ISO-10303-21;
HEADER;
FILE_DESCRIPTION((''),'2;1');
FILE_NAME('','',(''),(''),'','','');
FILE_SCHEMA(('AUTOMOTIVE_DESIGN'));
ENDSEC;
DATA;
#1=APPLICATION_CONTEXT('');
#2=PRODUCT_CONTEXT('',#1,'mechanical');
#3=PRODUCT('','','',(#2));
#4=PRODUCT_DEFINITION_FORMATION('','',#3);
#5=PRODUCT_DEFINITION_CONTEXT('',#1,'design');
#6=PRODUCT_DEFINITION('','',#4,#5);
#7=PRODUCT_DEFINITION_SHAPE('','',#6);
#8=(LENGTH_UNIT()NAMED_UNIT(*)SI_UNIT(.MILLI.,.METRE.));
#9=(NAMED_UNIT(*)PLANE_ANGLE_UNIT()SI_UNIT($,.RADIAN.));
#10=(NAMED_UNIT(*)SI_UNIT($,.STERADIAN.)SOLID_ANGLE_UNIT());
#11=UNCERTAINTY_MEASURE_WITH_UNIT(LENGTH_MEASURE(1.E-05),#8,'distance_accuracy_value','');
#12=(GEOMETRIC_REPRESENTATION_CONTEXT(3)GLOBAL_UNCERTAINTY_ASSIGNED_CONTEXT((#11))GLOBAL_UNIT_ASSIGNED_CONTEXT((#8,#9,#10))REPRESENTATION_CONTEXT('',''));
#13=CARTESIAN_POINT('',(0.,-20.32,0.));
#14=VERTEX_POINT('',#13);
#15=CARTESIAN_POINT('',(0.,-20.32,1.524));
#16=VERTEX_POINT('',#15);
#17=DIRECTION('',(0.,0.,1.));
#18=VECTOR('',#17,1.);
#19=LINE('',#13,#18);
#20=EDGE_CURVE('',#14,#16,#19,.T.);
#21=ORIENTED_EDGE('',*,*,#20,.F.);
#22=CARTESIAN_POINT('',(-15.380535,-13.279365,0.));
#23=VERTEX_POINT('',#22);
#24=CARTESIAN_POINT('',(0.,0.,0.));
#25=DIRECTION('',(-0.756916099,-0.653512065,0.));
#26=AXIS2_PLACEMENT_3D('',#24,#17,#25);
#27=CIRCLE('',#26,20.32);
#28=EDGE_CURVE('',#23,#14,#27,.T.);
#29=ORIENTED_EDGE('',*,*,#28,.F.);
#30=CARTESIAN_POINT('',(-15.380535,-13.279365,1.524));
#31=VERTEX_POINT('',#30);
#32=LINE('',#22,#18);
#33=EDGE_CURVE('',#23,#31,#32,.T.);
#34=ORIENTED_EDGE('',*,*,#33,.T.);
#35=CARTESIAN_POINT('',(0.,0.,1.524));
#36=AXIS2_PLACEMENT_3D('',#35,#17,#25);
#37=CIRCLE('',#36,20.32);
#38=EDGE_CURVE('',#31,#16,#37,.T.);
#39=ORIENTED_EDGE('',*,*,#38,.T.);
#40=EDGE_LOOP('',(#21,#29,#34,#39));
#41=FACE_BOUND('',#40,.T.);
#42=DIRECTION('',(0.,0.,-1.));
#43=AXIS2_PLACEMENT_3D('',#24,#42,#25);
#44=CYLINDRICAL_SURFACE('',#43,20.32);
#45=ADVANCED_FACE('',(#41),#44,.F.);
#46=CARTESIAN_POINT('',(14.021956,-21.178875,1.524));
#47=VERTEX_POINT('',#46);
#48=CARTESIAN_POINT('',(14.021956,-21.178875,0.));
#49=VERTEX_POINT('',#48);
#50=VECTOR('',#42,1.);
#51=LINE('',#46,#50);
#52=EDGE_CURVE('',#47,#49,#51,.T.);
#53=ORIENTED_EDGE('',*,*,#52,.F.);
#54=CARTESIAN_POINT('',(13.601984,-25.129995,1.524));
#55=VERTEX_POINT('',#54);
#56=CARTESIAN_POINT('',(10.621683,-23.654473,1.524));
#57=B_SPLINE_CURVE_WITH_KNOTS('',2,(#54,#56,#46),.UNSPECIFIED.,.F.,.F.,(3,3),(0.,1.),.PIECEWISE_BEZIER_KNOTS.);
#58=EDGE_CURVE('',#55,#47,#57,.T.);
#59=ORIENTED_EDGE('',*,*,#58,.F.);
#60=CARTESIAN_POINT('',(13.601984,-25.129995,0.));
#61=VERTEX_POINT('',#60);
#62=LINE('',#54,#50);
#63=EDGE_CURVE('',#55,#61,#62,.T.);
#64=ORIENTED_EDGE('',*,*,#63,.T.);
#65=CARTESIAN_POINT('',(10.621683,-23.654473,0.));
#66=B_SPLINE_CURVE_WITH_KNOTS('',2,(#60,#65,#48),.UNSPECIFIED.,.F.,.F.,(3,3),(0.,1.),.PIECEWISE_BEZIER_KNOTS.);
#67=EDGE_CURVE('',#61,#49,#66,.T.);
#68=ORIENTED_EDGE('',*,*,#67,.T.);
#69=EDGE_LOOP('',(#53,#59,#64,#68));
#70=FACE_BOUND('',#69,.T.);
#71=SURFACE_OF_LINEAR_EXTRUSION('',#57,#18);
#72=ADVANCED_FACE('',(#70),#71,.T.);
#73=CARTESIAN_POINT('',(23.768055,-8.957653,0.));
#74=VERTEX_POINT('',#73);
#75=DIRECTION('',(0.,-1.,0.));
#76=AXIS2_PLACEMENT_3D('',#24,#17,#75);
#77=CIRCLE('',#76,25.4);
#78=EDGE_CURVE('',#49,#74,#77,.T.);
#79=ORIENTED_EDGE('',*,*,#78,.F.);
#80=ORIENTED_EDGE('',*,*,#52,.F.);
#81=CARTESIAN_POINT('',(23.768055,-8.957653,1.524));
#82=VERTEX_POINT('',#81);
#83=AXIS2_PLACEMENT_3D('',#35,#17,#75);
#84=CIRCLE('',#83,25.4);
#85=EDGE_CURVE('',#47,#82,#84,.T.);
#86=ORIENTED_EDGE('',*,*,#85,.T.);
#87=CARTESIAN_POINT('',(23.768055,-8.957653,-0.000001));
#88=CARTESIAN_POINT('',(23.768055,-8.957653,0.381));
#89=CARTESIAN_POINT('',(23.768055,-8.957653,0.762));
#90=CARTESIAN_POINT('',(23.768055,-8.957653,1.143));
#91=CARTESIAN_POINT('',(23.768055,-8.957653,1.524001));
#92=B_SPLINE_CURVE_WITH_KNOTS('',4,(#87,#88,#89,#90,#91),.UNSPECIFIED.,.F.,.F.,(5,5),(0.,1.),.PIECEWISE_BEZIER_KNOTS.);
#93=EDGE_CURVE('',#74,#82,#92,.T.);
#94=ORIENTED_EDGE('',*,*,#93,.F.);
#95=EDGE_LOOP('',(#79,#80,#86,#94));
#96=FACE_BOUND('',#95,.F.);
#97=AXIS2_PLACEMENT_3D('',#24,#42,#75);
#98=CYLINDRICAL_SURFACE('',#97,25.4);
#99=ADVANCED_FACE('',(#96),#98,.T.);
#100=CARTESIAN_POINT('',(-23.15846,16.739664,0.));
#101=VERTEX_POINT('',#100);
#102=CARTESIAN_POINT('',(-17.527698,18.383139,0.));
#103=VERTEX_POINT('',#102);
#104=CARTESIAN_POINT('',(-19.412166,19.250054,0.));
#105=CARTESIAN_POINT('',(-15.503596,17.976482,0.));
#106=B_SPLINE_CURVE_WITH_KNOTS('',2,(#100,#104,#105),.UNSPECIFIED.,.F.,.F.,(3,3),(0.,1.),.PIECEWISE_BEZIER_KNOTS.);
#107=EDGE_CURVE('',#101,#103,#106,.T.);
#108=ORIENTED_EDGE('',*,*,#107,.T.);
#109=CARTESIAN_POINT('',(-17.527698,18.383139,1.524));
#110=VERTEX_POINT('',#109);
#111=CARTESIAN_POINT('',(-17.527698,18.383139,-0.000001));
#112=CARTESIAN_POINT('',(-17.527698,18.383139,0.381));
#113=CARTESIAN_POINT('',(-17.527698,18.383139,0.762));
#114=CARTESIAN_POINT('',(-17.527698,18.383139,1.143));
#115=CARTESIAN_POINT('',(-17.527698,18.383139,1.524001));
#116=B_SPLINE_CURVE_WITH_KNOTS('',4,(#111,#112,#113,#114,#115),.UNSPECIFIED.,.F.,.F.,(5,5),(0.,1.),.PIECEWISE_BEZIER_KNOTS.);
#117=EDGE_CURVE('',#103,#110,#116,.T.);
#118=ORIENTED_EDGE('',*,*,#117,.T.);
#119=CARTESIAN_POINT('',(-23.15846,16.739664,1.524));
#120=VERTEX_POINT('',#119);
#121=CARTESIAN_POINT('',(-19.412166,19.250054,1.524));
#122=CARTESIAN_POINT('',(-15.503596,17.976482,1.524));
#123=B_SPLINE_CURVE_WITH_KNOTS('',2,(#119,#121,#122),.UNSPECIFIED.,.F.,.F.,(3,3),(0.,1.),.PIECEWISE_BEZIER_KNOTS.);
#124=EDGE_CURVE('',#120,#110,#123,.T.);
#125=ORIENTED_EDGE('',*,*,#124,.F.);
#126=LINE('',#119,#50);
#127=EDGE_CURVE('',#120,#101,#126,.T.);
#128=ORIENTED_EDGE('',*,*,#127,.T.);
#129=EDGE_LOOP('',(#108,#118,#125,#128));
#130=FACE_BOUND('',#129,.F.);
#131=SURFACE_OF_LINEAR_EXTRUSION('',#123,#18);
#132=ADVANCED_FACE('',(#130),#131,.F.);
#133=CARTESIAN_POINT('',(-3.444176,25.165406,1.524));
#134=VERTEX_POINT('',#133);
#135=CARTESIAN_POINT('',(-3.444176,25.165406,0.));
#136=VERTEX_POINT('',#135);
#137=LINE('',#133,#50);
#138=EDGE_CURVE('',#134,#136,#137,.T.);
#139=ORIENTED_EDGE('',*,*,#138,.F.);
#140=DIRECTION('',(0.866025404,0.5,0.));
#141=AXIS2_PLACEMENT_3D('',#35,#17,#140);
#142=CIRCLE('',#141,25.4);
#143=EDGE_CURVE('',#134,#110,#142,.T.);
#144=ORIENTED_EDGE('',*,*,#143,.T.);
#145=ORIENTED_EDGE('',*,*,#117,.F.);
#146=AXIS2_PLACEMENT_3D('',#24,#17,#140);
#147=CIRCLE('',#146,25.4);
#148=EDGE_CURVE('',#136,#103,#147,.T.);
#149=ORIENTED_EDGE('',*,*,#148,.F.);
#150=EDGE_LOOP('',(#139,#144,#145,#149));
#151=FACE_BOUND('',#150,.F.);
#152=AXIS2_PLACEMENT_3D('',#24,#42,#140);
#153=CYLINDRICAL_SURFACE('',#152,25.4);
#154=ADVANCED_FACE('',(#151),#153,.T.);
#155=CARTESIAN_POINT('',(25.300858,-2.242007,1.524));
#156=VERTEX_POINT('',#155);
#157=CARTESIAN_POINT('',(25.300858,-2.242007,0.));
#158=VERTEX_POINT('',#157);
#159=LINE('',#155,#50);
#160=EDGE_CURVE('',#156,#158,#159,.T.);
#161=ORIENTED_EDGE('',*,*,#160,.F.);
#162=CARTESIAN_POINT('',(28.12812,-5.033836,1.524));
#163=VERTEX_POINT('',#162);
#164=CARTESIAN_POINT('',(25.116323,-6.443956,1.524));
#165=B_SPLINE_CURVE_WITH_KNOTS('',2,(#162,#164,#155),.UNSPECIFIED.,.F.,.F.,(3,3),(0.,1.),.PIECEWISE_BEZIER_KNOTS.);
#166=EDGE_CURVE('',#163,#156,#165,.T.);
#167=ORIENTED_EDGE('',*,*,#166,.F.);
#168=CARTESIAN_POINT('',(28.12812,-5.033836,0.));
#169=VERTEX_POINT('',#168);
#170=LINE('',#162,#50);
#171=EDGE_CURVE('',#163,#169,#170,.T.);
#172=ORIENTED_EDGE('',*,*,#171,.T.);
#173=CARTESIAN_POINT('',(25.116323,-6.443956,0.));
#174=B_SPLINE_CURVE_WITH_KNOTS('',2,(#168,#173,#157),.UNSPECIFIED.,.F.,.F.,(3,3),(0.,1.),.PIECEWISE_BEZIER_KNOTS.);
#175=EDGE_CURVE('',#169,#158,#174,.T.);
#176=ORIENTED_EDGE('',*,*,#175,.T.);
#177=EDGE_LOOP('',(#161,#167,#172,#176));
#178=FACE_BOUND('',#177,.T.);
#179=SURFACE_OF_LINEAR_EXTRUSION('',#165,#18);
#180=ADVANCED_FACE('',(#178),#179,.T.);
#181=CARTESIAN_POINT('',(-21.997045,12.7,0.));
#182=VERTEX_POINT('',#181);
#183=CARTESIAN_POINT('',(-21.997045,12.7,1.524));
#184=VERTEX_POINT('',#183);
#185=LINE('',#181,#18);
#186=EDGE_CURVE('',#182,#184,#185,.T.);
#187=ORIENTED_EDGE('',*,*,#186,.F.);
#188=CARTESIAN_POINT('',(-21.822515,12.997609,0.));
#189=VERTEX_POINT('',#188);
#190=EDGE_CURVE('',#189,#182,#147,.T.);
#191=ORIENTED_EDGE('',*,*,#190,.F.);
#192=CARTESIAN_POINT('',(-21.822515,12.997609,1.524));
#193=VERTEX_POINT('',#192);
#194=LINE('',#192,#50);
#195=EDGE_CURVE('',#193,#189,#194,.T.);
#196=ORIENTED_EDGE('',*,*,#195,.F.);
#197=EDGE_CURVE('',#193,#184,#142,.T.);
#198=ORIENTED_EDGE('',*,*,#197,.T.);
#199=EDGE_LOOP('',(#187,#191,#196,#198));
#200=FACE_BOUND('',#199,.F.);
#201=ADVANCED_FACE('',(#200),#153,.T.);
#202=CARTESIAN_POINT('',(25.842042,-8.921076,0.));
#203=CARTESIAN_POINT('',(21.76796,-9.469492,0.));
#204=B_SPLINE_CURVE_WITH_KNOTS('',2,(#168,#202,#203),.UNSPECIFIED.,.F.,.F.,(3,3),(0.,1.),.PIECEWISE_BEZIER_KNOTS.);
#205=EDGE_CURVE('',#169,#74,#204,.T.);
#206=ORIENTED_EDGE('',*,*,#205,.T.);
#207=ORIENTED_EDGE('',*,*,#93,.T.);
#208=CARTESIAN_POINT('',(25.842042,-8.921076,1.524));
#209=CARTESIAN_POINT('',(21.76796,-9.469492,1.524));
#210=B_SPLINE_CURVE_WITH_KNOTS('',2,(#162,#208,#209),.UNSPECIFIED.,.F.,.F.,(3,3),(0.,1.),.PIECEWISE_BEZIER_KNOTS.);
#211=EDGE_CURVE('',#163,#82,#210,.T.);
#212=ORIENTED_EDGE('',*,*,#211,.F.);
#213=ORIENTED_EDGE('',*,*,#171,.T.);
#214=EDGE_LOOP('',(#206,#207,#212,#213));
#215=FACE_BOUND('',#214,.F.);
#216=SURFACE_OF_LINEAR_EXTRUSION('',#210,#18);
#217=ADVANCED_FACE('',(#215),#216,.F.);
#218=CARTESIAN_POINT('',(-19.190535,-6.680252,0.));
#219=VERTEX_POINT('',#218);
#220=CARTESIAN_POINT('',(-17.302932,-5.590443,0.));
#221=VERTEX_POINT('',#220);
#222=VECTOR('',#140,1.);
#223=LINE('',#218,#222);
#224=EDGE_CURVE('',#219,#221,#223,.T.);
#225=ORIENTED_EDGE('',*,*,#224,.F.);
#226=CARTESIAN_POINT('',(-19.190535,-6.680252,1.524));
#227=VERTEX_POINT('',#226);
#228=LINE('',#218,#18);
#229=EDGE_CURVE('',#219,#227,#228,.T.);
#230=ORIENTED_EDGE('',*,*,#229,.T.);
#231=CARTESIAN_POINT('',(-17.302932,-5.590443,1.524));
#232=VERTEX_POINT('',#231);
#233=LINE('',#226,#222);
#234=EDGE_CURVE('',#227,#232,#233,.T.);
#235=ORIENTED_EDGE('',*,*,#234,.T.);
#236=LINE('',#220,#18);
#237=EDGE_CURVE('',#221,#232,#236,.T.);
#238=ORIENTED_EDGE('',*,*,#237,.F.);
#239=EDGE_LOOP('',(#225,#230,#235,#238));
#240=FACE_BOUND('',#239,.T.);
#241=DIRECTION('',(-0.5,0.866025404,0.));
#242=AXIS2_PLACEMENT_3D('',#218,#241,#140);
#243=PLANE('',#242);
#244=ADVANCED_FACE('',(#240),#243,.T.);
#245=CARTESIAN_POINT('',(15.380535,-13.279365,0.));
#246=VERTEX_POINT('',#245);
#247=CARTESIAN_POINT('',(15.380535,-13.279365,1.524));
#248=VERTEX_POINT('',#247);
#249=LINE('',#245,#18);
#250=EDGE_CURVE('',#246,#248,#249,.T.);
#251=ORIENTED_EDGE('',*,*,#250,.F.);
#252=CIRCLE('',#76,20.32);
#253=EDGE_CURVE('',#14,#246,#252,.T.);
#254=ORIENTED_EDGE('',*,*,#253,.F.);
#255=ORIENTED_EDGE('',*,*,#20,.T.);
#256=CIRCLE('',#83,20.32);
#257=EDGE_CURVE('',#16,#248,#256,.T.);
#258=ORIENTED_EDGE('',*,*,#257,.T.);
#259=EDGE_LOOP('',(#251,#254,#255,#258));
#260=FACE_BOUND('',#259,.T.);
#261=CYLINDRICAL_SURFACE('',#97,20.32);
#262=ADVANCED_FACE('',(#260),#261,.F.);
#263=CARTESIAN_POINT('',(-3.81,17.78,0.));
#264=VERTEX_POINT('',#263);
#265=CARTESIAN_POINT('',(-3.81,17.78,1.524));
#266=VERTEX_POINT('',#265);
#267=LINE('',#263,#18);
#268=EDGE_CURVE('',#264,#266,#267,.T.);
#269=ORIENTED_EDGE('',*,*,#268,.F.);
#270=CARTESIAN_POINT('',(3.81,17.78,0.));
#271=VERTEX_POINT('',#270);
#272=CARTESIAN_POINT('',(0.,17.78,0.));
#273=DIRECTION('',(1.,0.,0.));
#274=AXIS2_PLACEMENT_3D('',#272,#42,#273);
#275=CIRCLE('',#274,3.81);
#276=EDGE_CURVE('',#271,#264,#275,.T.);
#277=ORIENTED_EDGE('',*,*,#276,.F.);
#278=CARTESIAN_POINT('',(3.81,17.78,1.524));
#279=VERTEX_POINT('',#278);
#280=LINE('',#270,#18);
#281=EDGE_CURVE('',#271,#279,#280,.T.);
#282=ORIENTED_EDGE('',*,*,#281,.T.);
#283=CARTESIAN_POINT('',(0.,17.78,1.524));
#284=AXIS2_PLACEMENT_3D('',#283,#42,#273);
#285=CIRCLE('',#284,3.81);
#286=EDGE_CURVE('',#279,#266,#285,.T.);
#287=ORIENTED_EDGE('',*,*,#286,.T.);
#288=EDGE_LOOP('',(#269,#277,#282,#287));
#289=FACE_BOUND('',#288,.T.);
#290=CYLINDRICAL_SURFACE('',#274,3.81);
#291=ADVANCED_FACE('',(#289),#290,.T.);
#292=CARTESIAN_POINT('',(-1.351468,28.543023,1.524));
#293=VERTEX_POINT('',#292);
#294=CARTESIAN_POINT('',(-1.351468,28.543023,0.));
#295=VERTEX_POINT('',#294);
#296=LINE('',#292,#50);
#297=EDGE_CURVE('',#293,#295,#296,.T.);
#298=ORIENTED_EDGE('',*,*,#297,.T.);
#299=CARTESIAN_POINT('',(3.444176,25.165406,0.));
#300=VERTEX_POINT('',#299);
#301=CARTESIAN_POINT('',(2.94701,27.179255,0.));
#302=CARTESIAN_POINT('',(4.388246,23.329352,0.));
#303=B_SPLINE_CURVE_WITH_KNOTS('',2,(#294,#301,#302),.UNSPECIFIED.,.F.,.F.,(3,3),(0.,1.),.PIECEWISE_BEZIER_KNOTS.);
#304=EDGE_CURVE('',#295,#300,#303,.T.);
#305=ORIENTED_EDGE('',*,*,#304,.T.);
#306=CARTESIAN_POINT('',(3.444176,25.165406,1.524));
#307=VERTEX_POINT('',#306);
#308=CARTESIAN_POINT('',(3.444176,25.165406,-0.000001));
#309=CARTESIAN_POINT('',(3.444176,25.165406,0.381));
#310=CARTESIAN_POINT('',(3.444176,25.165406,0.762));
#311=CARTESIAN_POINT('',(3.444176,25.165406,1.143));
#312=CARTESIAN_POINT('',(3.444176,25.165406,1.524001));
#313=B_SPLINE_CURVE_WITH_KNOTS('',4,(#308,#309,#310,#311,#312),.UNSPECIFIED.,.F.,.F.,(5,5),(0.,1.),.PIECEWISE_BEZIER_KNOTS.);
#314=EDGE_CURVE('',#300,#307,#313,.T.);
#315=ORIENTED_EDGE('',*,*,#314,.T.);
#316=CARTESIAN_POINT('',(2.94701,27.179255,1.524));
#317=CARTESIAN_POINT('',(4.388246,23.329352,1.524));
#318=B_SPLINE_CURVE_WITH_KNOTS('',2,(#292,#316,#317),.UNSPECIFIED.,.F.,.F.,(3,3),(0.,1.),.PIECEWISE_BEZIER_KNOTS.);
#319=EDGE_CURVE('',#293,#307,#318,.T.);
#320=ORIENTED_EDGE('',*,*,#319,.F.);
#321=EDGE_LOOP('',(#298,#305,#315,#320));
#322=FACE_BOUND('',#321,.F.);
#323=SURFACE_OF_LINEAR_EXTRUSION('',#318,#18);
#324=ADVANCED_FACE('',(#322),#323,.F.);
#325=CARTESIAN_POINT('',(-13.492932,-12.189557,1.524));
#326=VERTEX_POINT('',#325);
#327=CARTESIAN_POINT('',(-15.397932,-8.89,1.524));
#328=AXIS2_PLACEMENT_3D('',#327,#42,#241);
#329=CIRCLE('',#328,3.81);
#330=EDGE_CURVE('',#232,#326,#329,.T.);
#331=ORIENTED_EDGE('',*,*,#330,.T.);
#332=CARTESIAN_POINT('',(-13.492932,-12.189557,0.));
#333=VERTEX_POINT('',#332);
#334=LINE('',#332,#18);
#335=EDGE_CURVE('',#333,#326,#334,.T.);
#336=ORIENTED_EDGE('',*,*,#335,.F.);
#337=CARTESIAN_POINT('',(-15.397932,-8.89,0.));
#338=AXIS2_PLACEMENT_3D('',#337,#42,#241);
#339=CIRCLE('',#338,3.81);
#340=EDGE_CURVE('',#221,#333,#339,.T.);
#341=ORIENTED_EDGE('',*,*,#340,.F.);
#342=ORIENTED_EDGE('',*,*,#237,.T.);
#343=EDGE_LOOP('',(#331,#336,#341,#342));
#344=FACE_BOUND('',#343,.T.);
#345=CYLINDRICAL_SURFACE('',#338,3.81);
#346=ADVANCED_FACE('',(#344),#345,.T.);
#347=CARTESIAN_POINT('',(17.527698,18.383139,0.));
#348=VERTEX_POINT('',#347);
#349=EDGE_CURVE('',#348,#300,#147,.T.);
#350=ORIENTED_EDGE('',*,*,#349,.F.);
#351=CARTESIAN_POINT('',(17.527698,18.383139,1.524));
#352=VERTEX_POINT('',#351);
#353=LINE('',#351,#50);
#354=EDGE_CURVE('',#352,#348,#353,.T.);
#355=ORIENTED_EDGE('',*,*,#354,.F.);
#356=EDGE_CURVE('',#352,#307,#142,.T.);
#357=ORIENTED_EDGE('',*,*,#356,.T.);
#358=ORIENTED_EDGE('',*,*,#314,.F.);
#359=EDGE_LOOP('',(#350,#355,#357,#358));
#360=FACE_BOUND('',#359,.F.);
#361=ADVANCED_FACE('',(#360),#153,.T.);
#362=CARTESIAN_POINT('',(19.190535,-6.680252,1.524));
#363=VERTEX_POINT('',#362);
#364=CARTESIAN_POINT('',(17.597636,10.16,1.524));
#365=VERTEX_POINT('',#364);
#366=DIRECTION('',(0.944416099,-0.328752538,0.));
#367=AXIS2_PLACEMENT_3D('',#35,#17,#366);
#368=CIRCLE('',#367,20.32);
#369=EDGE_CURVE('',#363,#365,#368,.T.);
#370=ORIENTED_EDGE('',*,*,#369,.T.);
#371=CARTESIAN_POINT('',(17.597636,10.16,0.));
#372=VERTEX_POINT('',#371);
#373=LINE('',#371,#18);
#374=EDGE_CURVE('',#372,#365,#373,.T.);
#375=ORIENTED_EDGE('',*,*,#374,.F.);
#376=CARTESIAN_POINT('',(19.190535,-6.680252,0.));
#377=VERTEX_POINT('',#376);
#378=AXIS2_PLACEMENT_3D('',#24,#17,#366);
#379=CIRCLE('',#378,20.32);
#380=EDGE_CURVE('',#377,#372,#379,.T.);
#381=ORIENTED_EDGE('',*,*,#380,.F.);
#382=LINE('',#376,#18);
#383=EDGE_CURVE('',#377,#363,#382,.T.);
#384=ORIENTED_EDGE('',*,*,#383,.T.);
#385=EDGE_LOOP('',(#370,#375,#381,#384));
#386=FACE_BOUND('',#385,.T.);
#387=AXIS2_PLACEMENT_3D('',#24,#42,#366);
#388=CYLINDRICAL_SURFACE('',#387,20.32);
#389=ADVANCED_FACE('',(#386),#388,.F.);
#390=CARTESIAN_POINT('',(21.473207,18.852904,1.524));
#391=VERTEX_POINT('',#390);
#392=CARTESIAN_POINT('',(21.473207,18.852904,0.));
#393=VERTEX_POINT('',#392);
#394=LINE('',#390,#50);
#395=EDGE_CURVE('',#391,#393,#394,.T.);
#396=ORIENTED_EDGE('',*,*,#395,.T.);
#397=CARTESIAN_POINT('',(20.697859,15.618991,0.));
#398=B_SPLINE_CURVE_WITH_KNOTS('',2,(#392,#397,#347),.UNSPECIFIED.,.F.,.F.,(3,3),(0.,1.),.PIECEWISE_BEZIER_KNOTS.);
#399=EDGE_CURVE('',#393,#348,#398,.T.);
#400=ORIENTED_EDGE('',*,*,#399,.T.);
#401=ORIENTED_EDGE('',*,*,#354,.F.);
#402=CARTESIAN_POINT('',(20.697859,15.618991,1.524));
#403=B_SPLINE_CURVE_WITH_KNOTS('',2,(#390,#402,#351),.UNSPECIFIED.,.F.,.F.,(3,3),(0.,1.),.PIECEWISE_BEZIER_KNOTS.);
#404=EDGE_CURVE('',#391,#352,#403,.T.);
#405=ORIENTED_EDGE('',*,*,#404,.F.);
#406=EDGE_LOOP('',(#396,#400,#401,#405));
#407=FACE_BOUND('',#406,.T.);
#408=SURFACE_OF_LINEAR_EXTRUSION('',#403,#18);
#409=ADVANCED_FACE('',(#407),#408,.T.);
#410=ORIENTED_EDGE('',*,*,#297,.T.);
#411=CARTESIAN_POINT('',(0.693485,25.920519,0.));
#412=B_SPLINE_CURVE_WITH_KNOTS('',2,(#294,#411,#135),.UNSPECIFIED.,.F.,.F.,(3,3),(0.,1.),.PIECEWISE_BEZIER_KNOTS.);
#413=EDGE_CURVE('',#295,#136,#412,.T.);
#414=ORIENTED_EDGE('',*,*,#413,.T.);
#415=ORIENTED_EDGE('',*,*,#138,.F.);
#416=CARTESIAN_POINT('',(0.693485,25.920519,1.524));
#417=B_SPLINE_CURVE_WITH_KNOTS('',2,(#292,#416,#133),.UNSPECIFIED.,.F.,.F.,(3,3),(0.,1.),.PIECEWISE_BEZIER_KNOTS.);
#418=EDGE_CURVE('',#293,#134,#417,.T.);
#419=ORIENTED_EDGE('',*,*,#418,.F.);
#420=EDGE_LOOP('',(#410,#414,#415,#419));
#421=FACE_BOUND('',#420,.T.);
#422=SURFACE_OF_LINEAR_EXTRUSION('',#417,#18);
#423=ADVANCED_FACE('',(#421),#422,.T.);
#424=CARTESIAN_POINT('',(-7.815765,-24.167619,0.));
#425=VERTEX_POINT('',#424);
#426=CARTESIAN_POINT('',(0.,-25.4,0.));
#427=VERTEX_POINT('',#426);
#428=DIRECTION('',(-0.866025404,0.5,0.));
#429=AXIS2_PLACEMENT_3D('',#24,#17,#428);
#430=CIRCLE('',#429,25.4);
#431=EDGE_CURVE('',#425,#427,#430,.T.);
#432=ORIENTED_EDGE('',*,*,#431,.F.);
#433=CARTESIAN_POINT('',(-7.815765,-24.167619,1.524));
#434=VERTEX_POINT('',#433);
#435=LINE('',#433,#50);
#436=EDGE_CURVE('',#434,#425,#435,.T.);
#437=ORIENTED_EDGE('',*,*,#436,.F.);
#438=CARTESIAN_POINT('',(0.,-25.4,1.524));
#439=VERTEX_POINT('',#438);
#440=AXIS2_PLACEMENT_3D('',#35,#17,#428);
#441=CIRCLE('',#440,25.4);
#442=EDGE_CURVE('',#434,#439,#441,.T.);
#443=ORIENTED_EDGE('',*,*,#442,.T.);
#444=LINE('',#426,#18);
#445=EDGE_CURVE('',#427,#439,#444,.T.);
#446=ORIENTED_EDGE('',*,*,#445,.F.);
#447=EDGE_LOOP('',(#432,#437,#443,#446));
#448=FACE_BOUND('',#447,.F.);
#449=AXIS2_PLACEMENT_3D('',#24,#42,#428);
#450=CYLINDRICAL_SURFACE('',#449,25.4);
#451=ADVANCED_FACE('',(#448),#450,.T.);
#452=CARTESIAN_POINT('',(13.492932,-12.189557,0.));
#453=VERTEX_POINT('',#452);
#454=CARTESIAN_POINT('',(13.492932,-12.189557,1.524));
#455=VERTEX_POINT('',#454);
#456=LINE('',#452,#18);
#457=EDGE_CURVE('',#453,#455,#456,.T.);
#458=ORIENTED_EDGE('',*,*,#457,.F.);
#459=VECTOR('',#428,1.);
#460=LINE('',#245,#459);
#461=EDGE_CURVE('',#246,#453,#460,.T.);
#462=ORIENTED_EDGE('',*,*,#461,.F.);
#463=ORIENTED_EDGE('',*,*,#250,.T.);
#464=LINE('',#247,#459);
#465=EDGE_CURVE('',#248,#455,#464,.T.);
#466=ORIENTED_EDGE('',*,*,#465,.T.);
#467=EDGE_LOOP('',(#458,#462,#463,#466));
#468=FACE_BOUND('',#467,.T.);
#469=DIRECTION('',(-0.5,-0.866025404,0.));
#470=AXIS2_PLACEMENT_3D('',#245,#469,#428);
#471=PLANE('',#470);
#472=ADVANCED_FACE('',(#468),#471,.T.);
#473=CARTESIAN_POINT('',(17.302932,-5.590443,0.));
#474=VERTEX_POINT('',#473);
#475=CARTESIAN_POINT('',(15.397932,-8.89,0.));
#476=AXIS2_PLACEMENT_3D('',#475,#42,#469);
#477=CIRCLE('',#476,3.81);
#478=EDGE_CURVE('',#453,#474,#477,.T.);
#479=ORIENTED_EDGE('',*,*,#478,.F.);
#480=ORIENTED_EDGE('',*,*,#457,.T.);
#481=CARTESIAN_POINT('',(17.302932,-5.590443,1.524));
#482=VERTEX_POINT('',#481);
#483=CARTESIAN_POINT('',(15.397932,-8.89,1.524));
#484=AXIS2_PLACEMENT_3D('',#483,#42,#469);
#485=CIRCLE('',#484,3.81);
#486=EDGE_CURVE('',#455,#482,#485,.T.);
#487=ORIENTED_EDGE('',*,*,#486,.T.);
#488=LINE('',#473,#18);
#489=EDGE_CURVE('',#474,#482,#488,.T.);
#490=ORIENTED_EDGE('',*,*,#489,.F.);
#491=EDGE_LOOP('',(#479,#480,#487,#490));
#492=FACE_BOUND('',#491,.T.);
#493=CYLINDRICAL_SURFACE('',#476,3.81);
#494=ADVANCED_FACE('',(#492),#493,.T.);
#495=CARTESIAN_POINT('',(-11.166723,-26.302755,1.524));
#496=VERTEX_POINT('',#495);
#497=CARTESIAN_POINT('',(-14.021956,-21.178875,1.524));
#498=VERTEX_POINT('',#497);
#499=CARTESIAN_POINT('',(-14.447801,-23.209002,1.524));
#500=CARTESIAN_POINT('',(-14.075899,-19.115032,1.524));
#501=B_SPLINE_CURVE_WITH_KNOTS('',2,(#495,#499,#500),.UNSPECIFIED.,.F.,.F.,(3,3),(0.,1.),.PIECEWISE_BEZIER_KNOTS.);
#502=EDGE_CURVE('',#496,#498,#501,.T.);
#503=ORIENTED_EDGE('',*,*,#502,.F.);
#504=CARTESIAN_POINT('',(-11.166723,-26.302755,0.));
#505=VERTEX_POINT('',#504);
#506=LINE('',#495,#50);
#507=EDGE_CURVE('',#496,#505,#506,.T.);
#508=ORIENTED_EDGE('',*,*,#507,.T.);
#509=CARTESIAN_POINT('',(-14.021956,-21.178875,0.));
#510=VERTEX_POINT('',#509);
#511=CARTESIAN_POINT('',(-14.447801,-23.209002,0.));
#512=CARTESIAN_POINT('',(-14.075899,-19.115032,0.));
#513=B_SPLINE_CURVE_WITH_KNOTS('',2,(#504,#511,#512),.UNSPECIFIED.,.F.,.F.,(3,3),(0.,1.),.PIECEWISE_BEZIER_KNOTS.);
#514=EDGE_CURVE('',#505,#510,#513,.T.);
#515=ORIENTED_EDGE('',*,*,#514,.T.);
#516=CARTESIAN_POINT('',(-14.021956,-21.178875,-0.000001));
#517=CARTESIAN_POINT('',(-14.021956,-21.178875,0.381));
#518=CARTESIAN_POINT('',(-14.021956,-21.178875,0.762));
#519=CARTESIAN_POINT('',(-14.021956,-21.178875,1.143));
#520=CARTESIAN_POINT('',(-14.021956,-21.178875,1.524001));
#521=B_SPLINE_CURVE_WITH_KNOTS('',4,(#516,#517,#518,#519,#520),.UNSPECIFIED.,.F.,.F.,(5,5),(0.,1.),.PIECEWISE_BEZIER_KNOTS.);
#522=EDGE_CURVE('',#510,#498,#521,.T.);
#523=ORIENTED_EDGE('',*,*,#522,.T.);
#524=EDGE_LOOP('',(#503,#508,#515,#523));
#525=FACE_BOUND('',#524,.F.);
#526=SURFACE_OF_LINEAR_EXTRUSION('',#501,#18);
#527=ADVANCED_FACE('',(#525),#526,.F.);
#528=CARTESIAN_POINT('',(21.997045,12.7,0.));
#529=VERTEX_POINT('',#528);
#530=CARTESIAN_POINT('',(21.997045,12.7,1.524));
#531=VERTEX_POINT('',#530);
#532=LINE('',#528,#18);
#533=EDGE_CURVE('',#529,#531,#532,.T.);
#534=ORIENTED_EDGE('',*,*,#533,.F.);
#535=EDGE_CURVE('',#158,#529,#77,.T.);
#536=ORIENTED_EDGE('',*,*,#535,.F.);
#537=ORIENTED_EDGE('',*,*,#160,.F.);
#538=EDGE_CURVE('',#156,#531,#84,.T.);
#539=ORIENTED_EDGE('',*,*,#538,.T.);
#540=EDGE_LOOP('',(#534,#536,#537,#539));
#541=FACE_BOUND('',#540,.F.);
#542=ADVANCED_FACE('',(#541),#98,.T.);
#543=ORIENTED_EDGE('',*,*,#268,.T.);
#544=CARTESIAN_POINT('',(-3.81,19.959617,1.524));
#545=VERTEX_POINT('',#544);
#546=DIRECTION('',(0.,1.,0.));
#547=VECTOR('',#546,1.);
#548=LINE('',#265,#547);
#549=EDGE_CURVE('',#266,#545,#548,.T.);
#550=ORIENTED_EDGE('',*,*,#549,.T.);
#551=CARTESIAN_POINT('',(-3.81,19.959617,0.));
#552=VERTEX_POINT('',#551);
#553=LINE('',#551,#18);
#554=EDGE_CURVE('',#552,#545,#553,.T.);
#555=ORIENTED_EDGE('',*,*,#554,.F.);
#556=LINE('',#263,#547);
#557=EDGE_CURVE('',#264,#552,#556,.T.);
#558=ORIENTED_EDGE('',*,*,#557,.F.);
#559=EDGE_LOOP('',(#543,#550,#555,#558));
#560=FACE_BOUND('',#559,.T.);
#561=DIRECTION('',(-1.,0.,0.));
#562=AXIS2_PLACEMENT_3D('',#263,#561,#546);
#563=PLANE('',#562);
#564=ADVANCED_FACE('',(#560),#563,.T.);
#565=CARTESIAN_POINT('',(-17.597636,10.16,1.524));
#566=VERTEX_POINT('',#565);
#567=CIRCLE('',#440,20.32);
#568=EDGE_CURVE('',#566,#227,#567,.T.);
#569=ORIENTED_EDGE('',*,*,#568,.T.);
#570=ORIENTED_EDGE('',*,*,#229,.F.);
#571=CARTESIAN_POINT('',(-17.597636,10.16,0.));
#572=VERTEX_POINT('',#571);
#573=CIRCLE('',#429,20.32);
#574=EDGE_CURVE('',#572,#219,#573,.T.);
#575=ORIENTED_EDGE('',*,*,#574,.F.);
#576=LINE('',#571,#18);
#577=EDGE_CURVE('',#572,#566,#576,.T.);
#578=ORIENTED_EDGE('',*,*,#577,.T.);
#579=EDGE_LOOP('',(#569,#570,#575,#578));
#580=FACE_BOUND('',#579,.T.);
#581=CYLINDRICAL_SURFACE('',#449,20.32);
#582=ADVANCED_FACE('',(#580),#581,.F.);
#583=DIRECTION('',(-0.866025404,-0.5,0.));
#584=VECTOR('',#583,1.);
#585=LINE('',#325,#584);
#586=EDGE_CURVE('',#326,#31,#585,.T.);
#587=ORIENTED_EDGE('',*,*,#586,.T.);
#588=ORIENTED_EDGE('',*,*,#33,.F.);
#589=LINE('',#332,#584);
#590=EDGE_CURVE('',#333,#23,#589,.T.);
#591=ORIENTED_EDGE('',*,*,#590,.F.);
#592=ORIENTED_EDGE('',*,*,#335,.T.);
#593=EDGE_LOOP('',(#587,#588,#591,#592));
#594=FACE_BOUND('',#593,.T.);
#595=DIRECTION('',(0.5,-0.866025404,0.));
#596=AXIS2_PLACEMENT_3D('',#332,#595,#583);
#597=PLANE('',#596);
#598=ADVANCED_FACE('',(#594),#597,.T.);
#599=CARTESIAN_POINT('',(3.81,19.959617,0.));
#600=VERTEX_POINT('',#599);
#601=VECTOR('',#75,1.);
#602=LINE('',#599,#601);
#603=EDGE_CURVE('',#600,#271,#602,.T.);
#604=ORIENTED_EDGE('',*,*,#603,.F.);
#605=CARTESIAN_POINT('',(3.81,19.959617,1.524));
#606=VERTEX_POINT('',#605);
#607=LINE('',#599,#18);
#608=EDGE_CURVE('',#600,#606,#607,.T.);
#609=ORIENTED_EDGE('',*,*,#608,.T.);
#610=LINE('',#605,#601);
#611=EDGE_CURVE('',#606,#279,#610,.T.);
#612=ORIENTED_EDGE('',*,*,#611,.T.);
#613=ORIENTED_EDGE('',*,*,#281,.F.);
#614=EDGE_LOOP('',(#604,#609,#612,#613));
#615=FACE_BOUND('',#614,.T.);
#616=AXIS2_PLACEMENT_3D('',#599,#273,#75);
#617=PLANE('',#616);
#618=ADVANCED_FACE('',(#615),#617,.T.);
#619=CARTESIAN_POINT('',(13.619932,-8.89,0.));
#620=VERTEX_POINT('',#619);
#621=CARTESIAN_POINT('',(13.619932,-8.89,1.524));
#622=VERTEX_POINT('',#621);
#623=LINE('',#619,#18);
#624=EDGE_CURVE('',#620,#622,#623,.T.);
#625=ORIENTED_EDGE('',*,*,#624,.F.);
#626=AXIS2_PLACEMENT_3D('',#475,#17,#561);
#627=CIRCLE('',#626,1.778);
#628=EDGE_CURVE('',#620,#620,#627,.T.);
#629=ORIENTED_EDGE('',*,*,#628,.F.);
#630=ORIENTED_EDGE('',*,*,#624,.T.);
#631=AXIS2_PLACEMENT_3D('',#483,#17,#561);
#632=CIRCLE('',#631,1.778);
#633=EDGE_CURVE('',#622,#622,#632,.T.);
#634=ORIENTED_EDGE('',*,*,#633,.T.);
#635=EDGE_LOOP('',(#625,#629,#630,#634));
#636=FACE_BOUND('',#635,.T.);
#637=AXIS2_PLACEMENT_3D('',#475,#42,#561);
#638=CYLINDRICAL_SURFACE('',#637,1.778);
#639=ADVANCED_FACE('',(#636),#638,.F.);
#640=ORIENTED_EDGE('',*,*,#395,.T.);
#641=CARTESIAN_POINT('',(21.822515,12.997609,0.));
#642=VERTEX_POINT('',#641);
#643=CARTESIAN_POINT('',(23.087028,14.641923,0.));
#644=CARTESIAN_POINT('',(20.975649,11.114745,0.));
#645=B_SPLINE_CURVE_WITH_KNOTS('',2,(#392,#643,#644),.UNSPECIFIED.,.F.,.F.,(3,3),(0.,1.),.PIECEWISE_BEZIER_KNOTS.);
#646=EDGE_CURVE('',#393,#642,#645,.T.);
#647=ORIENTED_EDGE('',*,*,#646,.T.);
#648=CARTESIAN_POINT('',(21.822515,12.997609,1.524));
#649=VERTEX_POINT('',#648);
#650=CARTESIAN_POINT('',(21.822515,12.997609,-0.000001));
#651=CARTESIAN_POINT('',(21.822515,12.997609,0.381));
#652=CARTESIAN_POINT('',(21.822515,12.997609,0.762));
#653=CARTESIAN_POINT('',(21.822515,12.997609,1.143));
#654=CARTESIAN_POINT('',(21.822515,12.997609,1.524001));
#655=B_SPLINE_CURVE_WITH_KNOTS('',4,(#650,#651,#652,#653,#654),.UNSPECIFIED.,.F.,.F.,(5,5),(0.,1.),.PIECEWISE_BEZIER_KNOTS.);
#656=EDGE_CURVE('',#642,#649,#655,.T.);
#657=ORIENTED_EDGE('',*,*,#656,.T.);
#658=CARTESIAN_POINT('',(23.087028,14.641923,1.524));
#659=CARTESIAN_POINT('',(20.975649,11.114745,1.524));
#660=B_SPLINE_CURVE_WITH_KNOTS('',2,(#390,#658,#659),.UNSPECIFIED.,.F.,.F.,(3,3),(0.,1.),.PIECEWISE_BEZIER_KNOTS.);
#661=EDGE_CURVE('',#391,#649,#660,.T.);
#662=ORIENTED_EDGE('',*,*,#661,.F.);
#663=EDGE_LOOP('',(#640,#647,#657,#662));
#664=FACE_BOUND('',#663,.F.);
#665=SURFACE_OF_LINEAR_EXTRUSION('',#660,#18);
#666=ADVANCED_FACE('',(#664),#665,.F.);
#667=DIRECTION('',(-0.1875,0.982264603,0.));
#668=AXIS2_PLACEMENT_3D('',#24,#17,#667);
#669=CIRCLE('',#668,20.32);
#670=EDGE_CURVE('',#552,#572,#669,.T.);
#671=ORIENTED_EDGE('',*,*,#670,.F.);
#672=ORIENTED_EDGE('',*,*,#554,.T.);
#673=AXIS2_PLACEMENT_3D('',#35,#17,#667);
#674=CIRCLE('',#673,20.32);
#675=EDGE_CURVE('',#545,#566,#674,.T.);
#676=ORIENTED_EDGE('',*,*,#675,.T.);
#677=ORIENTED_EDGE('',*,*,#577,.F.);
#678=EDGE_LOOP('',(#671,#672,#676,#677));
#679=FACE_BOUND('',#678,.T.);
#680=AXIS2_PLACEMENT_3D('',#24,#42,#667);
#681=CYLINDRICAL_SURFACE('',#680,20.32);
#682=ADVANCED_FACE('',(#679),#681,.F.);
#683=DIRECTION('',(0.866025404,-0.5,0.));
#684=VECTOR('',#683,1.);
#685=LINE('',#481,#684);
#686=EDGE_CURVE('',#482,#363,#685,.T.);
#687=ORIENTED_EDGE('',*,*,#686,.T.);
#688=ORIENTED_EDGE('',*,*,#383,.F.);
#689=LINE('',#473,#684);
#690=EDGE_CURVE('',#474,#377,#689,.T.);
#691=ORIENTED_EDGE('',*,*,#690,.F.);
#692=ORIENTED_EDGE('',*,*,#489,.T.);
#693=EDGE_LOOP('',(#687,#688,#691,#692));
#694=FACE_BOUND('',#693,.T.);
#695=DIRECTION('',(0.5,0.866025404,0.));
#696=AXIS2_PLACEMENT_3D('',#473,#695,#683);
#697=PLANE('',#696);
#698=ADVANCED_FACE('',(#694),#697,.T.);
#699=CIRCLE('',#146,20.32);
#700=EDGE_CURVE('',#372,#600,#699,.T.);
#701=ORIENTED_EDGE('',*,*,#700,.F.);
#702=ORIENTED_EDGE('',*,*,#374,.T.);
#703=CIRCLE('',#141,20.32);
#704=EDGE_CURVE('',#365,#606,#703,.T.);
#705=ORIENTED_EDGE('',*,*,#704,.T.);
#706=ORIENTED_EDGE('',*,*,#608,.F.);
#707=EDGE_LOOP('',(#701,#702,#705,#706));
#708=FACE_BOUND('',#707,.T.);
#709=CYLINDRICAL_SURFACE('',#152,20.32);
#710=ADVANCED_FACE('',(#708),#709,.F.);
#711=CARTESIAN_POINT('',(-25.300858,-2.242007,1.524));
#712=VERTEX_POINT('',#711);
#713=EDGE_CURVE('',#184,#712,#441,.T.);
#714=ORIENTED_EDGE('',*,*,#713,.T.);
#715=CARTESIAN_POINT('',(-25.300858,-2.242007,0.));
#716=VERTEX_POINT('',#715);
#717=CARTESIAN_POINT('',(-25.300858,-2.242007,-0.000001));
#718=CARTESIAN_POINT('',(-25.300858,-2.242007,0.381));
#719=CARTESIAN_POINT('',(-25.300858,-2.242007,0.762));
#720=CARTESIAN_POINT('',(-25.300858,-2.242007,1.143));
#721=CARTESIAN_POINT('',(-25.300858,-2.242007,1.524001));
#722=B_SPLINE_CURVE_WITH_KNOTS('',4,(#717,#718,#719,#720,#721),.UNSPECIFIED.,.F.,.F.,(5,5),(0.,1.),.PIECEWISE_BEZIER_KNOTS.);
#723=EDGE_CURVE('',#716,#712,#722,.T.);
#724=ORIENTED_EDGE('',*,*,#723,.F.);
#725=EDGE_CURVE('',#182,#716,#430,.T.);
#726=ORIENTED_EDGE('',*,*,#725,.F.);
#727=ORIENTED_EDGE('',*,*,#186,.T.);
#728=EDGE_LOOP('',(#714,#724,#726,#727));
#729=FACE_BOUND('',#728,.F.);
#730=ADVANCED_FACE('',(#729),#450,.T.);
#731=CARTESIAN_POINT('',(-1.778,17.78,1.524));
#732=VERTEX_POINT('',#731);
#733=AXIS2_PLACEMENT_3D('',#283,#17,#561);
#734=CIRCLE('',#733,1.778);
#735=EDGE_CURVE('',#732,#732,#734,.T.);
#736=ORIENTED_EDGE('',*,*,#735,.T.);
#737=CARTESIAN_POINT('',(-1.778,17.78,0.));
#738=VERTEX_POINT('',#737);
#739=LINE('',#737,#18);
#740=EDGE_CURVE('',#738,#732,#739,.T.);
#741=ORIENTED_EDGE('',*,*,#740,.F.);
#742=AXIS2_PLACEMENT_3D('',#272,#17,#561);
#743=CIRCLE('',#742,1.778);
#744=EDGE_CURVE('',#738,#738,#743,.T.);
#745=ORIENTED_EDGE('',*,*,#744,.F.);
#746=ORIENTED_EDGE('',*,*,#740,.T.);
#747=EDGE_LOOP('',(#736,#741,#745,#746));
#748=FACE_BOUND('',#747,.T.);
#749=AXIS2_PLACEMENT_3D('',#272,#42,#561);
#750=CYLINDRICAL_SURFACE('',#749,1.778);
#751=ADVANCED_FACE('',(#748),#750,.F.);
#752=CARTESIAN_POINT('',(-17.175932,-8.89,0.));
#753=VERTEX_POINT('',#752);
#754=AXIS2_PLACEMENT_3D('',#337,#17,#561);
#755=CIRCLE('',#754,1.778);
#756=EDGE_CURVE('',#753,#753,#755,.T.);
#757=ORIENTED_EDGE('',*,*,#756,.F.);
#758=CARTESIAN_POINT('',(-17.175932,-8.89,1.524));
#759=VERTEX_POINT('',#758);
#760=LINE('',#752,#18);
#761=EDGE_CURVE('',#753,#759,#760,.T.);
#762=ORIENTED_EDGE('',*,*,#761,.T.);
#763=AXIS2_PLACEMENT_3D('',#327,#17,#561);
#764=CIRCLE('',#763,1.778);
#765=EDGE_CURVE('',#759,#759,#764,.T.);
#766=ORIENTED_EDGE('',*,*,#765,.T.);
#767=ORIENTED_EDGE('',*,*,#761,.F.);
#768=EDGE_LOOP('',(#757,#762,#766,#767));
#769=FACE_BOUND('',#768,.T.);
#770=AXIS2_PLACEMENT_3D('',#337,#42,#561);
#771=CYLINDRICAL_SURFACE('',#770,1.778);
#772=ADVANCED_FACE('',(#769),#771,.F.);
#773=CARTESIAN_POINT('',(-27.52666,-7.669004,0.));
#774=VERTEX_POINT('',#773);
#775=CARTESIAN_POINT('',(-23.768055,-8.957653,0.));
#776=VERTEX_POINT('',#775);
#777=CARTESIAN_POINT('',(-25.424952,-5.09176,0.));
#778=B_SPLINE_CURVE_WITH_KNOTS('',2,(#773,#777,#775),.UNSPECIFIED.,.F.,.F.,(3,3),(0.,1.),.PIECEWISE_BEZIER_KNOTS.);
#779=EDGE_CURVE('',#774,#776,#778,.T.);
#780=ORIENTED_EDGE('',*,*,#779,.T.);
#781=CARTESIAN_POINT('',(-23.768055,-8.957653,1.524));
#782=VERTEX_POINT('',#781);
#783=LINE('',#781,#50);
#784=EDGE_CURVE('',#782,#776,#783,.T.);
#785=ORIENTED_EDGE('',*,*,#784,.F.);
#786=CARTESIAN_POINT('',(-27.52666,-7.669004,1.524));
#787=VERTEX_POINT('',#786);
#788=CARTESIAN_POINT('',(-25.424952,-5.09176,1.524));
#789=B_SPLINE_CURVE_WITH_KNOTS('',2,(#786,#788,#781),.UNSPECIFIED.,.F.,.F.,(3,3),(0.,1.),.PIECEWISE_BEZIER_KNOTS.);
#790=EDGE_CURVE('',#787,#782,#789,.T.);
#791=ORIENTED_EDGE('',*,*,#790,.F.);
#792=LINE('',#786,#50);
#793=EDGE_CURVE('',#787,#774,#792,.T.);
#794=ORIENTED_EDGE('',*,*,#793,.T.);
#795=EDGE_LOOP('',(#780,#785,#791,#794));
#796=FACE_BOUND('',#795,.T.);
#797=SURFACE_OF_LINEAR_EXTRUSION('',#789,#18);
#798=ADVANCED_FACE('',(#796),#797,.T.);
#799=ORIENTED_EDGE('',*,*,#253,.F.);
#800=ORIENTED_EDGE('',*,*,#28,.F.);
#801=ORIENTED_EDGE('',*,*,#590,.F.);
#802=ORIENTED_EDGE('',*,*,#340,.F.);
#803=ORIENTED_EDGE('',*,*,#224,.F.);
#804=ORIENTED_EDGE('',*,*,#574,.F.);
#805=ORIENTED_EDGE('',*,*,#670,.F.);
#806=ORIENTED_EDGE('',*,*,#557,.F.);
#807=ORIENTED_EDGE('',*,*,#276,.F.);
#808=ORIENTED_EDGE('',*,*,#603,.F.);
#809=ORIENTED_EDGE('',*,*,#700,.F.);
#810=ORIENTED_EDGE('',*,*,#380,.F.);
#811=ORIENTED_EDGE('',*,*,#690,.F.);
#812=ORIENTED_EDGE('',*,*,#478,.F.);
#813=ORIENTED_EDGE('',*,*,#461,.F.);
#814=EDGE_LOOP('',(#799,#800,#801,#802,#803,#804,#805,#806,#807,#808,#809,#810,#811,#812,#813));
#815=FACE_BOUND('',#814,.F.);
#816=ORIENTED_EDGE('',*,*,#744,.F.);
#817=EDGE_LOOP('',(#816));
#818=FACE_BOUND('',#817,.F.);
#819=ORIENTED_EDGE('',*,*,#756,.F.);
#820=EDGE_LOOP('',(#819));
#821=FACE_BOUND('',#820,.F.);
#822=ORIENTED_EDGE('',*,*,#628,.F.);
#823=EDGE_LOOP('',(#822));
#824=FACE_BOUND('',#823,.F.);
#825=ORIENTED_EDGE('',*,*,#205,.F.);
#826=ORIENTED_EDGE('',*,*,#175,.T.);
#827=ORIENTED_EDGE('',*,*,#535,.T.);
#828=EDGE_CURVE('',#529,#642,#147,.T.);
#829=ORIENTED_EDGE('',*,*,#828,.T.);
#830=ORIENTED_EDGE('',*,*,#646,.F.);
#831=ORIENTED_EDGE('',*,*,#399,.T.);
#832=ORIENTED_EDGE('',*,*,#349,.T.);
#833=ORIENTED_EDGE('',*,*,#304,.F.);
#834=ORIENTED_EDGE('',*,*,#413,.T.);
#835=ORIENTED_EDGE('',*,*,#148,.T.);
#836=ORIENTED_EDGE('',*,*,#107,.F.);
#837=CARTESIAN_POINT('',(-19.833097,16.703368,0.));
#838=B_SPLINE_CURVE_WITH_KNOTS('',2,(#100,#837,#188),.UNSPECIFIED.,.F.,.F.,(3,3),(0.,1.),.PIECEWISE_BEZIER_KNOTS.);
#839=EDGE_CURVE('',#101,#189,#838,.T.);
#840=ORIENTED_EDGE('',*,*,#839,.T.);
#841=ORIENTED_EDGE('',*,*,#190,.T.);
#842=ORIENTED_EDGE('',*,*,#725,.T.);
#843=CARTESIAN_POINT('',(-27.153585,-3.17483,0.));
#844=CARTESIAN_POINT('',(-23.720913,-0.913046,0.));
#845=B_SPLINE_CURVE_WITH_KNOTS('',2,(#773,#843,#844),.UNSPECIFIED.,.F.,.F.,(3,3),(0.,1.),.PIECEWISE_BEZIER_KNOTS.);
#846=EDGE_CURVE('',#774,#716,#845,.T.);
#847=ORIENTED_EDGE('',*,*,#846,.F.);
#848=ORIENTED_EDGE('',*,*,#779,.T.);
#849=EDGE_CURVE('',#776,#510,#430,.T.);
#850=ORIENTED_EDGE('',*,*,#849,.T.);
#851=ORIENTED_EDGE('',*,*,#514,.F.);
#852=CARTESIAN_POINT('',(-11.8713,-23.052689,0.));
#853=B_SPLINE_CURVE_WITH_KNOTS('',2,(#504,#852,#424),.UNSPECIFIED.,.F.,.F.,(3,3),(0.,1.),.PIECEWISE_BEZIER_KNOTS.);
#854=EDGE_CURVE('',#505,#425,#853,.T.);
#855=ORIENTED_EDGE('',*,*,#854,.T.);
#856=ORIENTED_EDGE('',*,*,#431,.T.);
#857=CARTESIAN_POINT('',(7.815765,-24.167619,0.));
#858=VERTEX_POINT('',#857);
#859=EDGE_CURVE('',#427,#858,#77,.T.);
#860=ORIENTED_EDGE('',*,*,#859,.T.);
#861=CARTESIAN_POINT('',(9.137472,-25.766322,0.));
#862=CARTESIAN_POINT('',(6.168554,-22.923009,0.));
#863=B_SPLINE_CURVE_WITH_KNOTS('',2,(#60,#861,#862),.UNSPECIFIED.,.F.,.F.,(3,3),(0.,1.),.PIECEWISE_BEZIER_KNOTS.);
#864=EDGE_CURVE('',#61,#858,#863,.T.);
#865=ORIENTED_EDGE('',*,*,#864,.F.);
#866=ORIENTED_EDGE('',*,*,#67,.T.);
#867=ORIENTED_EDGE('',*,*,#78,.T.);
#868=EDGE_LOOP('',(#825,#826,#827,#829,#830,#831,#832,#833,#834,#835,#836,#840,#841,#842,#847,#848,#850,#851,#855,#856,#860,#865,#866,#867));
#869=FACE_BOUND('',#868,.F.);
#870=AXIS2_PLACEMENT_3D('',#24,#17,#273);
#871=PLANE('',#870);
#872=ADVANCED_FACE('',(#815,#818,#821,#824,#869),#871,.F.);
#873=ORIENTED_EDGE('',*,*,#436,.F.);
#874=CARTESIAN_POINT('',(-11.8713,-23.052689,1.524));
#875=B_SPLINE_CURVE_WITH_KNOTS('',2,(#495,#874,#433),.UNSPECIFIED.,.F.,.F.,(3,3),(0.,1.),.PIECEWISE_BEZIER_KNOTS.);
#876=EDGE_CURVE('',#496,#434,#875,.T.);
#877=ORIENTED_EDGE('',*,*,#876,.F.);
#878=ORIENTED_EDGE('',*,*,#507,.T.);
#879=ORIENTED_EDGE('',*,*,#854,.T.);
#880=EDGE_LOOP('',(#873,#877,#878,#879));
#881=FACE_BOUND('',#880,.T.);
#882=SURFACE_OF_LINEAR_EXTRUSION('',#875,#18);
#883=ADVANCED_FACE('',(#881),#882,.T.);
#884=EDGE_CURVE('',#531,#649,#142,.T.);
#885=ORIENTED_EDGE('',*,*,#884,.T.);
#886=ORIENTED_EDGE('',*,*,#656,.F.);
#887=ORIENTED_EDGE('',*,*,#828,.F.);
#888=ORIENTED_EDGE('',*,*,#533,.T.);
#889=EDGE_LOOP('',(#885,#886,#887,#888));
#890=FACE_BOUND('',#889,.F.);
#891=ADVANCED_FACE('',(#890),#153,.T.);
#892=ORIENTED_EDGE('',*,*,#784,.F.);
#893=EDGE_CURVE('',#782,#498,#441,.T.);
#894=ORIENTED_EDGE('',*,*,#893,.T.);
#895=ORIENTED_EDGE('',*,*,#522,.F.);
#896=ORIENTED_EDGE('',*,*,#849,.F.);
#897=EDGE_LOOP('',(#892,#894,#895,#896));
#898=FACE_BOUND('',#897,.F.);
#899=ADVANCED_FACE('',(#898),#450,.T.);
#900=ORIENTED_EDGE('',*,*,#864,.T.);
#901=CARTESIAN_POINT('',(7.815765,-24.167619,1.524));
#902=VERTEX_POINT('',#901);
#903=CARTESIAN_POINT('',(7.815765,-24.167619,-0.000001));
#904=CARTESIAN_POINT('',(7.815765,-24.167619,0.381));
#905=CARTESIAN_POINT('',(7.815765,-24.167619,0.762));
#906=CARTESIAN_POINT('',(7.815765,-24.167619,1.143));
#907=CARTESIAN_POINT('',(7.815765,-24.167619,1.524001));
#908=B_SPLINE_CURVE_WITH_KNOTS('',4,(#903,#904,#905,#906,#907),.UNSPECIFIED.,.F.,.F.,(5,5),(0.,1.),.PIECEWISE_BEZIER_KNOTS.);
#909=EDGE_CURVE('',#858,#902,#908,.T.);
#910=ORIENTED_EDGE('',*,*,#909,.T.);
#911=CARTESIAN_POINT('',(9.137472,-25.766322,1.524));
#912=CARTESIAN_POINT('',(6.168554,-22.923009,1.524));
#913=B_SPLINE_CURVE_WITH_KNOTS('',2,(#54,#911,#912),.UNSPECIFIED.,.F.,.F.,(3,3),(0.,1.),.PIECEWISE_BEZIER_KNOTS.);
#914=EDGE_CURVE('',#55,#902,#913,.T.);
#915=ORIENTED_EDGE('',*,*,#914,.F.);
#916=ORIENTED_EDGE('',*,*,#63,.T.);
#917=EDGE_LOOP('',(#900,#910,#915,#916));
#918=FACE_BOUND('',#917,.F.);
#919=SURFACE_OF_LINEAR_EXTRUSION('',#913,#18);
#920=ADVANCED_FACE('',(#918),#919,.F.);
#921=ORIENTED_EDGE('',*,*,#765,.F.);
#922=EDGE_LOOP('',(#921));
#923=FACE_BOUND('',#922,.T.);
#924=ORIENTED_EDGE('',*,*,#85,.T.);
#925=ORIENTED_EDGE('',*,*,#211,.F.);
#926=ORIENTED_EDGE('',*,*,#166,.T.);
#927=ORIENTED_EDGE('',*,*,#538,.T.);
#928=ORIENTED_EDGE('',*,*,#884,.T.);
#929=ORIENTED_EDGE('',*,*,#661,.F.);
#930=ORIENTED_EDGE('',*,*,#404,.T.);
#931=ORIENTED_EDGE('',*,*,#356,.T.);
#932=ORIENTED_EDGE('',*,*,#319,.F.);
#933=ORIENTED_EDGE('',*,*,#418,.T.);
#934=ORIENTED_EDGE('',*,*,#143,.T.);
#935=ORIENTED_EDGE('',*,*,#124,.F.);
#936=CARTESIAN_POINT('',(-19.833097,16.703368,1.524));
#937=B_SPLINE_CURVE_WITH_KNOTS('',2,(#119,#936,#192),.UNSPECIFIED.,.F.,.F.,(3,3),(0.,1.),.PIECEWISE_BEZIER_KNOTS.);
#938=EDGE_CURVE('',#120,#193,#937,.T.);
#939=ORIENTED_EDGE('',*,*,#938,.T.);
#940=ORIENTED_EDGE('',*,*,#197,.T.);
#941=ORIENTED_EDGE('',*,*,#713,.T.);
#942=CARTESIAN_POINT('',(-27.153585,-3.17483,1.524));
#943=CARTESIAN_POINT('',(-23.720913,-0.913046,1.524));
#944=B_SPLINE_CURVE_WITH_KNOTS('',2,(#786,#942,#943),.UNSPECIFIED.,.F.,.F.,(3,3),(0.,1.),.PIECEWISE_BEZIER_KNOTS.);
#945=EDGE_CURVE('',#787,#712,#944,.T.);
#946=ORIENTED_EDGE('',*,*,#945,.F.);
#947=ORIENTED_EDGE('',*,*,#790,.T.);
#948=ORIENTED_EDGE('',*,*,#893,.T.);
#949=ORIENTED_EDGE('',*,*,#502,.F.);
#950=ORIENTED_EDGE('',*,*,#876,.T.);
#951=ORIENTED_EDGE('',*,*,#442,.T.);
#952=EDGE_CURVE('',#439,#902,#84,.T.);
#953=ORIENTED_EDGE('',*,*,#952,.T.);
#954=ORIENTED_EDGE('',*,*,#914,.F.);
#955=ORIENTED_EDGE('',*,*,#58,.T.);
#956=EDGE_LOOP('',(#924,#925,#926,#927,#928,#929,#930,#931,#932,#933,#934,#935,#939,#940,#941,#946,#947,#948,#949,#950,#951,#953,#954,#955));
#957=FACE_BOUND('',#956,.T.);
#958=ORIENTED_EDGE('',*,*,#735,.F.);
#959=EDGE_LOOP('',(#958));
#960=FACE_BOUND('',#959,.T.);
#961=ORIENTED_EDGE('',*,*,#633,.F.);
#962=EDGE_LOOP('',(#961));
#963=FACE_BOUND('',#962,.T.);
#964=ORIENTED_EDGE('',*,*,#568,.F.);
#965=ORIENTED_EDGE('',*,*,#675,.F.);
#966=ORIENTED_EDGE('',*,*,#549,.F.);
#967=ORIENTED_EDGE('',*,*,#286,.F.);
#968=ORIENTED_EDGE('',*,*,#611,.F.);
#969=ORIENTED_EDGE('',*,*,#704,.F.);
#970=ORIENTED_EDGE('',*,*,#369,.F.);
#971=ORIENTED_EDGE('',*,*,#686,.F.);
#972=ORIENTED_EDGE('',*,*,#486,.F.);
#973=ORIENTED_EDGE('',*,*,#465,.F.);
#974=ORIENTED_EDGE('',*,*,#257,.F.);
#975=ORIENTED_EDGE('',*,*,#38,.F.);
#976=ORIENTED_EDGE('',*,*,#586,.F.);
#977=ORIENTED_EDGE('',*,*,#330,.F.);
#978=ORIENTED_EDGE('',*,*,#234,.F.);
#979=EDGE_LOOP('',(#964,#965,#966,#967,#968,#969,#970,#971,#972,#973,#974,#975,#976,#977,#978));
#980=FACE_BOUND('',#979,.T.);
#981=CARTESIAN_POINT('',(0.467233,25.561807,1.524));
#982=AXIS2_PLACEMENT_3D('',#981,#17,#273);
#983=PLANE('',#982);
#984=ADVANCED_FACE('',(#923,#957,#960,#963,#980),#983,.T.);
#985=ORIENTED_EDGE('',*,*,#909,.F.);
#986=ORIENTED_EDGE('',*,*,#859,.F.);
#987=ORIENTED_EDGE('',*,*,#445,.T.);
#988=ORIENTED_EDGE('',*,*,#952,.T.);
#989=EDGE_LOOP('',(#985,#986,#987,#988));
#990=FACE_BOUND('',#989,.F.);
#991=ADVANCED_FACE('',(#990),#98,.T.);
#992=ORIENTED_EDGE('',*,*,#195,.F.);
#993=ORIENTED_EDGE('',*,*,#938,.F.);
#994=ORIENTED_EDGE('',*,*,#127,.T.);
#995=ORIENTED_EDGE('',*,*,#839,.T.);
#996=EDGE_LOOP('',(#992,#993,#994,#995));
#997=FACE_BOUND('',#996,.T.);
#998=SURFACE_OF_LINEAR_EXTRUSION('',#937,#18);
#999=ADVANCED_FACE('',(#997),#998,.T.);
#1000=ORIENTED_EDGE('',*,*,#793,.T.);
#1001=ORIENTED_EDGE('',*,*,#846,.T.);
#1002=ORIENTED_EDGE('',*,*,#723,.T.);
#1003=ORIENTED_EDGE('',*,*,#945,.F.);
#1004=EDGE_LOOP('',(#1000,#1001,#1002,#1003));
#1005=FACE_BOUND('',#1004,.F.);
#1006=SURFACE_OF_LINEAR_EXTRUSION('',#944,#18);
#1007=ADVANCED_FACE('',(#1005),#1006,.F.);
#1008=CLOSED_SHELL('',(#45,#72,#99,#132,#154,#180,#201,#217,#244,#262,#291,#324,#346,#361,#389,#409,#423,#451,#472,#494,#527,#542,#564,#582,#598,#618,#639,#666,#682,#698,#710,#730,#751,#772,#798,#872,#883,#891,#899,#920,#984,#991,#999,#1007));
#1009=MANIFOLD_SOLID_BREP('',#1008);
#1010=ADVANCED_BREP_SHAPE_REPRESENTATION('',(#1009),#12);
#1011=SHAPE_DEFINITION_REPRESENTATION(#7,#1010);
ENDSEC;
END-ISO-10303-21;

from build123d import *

# Parameters (mm, degrees)
SKETCH1_R           = 1.778
BOSS_EXTRUDE1_DEPTH = 1.524
BOSS_EXTRUDE2_DEPTH = 1.524


with BuildPart() as part:
    # Sketch1 → Boss-Extrude1 (new body)
    with BuildSketch(Plane.XY):
        with BuildLine():
            ThreePointArc((21.997045256, 12.7), (0, 25.4), (-21.997045256, 12.7))
            ThreePointArc((-21.997045256, 12.7), (-21.997045256, -12.7), (0, -25.4))
            ThreePointArc((0, -25.4), (21.997045256, -12.7), (21.997045256, 12.7))
        make_face()
        with Locations(Location((0, 17.78, 0), (0, 0, 180))):
            Circle(SKETCH1_R, mode=Mode.SUBTRACT)
        with Locations(Location((15.397931679, -8.89, 0), (0, 0, 180))):
            Circle(SKETCH1_R, mode=Mode.SUBTRACT)
        with Locations(Location((-15.397931679, -8.89, 0), (0, 0, 180))):
            Circle(SKETCH1_R, mode=Mode.SUBTRACT)
        with BuildLine():
            Line((-3.81, 17.78), (-3.81, 19.95961673))
            ThreePointArc((-3.81, 19.95961673), (-11.771994053, 16.562685652), (-17.597636205, 10.16))
            ThreePointArc((-17.597636205, 10.16), (-20.229703556, 1.913503077), (-19.190535138, -6.680251576))
            Line((-19.190535138, -6.680251576), (-17.302931679, -5.590443212))
            ThreePointArc((-17.302931679, -5.590443212), (-12.098374891, -6.985), (-13.492931679, -12.189556788))
            Line((-13.492931679, -12.189556788), (-15.380535138, -13.279365153))
            ThreePointArc((-15.380535138, -13.279365153), (-8.457709503, -18.476188729), (0, -20.32))
            ThreePointArc((0, -20.32), (8.457709503, -18.476188729), (15.380535138, -13.279365153))
            Line((15.380535138, -13.279365153), (13.492931679, -12.189556788))
            ThreePointArc((13.492931679, -12.189556788), (12.098374891, -6.985), (17.302931679, -5.590443212))
            Line((17.302931679, -5.590443212), (19.190535138, -6.680251576))
            ThreePointArc((19.190535138, -6.680251576), (20.229703556, 1.913503077), (17.597636205, 10.16))
            ThreePointArc((17.597636205, 10.16), (11.771994053, 16.562685652), (3.81, 19.95961673))
            Line((3.81, 19.95961673), (3.81, 17.78))
            ThreePointArc((3.81, 17.78), (0, 13.97), (-3.81, 17.78))
        make_face(mode=Mode.SUBTRACT)
    extrude(amount=BOSS_EXTRUDE1_DEPTH)

    # Sketch2 → Boss-Extrude2 (add)
    with BuildSketch(Plane.XY.offset(1.524)):
        with BuildLine():
            Line((-3.444175737, 25.165405888), (4.388245609, 23.329352482))
            add(Edge.make_bspline(
                [(-1.351467981, 28.543022953), (2.94701041, 27.179254576), (4.388245609, 23.329352482)],
                knots=[0, 0, 0, 1, 1, 1], degree=2))
            add(Edge.make_bspline(
                [(-1.351467981, 28.543022953), (0.693484877, 25.920519128), (-3.444175737, 25.165405888)],
                knots=[0, 0, 0, 1, 1, 1], degree=2))
        make_face()
        with BuildLine():
            Line((17.527698145, 18.383138953), (20.975648621, 11.114744787))
            add(Edge.make_bspline(
                [(21.473207446, 18.852903941), (23.087027834, 14.641922533), (20.975648621, 11.114744787)],
                knots=[0, 0, 0, 1, 1, 1], degree=2))
            add(Edge.make_bspline(
                [(21.473207446, 18.852903941), (20.697858644, 15.618991025), (17.527698145, 18.383138953)],
                knots=[0, 0, 0, 1, 1, 1], degree=2))
        make_face()
        with BuildLine():
            Line((25.300857823, -2.242006562), (21.767960397, -9.469492432))
            add(Edge.make_bspline(
                [(28.128119692, -5.033836268), (25.84204241, -8.921075819), (21.767960397, -9.469492432)],
                knots=[0, 0, 0, 1, 1, 1], degree=2))
            add(Edge.make_bspline(
                [(28.128119692, -5.033836268), (25.116322693, -6.443955888), (25.300857823, -2.242006562)],
                knots=[0, 0, 0, 1, 1, 1], degree=2))
        make_face()
        with BuildLine():
            Line((14.021955517, -21.178875406), (6.168554008, -22.923008708))
            add(Edge.make_bspline(
                [(13.601984102, -25.129995095), (9.137471969, -25.766322122), (6.168554008, -22.923008708)],
                knots=[0, 0, 0, 1, 1, 1], degree=2))
            add(Edge.make_bspline(
                [(13.601984102, -25.129995095), (10.621683474, -23.654472585), (14.021955517, -21.178875406)],
                knots=[0, 0, 0, 1, 1, 1], degree=2))
        make_face()
        with BuildLine():
            Line((-7.815765289, -24.1676191), (-14.075899364, -19.115031882))
            add(Edge.make_bspline(
                [(-11.166722947, -26.302755058), (-14.447801235, -23.20900233), (-14.075899364, -19.115031882)],
                knots=[0, 0, 0, 1, 1, 1], degree=2))
            add(Edge.make_bspline(
                [(-11.166722947, -26.302755058), (-11.871300044, -23.052688962), (-7.815765289, -24.1676191)],
                knots=[0, 0, 0, 1, 1, 1], degree=2))
        make_face()
        with BuildLine():
            Line((-23.76805542, -8.957652682), (-23.72091342, -0.913046174))
            add(Edge.make_bspline(
                [(-27.526659857, -7.669003983), (-27.153585428, -3.174830406), (-23.72091342, -0.913046174)],
                knots=[0, 0, 0, 1, 1, 1], degree=2))
            add(Edge.make_bspline(
                [(-27.526659857, -7.669003983), (-25.424952498, -5.091760362), (-23.76805542, -8.957652682)],
                knots=[0, 0, 0, 1, 1, 1], degree=2))
        make_face()
        with BuildLine():
            Line((-21.82251504, 12.997608909), (-15.503595851, 17.976481926))
            add(Edge.make_bspline(
                [(-23.158460453, 16.73966351), (-19.412165961, 19.250053568), (-15.503595851, 17.976481926)],
                knots=[0, 0, 0, 1, 1, 1], degree=2))
            add(Edge.make_bspline(
                [(-23.158460453, 16.73966351), (-19.833097147, 16.703367644), (-21.82251504, 12.997608909)],
                knots=[0, 0, 0, 1, 1, 1], degree=2))
        make_face()
    extrude(amount=-BOSS_EXTRUDE2_DEPTH)


solid = part.part
